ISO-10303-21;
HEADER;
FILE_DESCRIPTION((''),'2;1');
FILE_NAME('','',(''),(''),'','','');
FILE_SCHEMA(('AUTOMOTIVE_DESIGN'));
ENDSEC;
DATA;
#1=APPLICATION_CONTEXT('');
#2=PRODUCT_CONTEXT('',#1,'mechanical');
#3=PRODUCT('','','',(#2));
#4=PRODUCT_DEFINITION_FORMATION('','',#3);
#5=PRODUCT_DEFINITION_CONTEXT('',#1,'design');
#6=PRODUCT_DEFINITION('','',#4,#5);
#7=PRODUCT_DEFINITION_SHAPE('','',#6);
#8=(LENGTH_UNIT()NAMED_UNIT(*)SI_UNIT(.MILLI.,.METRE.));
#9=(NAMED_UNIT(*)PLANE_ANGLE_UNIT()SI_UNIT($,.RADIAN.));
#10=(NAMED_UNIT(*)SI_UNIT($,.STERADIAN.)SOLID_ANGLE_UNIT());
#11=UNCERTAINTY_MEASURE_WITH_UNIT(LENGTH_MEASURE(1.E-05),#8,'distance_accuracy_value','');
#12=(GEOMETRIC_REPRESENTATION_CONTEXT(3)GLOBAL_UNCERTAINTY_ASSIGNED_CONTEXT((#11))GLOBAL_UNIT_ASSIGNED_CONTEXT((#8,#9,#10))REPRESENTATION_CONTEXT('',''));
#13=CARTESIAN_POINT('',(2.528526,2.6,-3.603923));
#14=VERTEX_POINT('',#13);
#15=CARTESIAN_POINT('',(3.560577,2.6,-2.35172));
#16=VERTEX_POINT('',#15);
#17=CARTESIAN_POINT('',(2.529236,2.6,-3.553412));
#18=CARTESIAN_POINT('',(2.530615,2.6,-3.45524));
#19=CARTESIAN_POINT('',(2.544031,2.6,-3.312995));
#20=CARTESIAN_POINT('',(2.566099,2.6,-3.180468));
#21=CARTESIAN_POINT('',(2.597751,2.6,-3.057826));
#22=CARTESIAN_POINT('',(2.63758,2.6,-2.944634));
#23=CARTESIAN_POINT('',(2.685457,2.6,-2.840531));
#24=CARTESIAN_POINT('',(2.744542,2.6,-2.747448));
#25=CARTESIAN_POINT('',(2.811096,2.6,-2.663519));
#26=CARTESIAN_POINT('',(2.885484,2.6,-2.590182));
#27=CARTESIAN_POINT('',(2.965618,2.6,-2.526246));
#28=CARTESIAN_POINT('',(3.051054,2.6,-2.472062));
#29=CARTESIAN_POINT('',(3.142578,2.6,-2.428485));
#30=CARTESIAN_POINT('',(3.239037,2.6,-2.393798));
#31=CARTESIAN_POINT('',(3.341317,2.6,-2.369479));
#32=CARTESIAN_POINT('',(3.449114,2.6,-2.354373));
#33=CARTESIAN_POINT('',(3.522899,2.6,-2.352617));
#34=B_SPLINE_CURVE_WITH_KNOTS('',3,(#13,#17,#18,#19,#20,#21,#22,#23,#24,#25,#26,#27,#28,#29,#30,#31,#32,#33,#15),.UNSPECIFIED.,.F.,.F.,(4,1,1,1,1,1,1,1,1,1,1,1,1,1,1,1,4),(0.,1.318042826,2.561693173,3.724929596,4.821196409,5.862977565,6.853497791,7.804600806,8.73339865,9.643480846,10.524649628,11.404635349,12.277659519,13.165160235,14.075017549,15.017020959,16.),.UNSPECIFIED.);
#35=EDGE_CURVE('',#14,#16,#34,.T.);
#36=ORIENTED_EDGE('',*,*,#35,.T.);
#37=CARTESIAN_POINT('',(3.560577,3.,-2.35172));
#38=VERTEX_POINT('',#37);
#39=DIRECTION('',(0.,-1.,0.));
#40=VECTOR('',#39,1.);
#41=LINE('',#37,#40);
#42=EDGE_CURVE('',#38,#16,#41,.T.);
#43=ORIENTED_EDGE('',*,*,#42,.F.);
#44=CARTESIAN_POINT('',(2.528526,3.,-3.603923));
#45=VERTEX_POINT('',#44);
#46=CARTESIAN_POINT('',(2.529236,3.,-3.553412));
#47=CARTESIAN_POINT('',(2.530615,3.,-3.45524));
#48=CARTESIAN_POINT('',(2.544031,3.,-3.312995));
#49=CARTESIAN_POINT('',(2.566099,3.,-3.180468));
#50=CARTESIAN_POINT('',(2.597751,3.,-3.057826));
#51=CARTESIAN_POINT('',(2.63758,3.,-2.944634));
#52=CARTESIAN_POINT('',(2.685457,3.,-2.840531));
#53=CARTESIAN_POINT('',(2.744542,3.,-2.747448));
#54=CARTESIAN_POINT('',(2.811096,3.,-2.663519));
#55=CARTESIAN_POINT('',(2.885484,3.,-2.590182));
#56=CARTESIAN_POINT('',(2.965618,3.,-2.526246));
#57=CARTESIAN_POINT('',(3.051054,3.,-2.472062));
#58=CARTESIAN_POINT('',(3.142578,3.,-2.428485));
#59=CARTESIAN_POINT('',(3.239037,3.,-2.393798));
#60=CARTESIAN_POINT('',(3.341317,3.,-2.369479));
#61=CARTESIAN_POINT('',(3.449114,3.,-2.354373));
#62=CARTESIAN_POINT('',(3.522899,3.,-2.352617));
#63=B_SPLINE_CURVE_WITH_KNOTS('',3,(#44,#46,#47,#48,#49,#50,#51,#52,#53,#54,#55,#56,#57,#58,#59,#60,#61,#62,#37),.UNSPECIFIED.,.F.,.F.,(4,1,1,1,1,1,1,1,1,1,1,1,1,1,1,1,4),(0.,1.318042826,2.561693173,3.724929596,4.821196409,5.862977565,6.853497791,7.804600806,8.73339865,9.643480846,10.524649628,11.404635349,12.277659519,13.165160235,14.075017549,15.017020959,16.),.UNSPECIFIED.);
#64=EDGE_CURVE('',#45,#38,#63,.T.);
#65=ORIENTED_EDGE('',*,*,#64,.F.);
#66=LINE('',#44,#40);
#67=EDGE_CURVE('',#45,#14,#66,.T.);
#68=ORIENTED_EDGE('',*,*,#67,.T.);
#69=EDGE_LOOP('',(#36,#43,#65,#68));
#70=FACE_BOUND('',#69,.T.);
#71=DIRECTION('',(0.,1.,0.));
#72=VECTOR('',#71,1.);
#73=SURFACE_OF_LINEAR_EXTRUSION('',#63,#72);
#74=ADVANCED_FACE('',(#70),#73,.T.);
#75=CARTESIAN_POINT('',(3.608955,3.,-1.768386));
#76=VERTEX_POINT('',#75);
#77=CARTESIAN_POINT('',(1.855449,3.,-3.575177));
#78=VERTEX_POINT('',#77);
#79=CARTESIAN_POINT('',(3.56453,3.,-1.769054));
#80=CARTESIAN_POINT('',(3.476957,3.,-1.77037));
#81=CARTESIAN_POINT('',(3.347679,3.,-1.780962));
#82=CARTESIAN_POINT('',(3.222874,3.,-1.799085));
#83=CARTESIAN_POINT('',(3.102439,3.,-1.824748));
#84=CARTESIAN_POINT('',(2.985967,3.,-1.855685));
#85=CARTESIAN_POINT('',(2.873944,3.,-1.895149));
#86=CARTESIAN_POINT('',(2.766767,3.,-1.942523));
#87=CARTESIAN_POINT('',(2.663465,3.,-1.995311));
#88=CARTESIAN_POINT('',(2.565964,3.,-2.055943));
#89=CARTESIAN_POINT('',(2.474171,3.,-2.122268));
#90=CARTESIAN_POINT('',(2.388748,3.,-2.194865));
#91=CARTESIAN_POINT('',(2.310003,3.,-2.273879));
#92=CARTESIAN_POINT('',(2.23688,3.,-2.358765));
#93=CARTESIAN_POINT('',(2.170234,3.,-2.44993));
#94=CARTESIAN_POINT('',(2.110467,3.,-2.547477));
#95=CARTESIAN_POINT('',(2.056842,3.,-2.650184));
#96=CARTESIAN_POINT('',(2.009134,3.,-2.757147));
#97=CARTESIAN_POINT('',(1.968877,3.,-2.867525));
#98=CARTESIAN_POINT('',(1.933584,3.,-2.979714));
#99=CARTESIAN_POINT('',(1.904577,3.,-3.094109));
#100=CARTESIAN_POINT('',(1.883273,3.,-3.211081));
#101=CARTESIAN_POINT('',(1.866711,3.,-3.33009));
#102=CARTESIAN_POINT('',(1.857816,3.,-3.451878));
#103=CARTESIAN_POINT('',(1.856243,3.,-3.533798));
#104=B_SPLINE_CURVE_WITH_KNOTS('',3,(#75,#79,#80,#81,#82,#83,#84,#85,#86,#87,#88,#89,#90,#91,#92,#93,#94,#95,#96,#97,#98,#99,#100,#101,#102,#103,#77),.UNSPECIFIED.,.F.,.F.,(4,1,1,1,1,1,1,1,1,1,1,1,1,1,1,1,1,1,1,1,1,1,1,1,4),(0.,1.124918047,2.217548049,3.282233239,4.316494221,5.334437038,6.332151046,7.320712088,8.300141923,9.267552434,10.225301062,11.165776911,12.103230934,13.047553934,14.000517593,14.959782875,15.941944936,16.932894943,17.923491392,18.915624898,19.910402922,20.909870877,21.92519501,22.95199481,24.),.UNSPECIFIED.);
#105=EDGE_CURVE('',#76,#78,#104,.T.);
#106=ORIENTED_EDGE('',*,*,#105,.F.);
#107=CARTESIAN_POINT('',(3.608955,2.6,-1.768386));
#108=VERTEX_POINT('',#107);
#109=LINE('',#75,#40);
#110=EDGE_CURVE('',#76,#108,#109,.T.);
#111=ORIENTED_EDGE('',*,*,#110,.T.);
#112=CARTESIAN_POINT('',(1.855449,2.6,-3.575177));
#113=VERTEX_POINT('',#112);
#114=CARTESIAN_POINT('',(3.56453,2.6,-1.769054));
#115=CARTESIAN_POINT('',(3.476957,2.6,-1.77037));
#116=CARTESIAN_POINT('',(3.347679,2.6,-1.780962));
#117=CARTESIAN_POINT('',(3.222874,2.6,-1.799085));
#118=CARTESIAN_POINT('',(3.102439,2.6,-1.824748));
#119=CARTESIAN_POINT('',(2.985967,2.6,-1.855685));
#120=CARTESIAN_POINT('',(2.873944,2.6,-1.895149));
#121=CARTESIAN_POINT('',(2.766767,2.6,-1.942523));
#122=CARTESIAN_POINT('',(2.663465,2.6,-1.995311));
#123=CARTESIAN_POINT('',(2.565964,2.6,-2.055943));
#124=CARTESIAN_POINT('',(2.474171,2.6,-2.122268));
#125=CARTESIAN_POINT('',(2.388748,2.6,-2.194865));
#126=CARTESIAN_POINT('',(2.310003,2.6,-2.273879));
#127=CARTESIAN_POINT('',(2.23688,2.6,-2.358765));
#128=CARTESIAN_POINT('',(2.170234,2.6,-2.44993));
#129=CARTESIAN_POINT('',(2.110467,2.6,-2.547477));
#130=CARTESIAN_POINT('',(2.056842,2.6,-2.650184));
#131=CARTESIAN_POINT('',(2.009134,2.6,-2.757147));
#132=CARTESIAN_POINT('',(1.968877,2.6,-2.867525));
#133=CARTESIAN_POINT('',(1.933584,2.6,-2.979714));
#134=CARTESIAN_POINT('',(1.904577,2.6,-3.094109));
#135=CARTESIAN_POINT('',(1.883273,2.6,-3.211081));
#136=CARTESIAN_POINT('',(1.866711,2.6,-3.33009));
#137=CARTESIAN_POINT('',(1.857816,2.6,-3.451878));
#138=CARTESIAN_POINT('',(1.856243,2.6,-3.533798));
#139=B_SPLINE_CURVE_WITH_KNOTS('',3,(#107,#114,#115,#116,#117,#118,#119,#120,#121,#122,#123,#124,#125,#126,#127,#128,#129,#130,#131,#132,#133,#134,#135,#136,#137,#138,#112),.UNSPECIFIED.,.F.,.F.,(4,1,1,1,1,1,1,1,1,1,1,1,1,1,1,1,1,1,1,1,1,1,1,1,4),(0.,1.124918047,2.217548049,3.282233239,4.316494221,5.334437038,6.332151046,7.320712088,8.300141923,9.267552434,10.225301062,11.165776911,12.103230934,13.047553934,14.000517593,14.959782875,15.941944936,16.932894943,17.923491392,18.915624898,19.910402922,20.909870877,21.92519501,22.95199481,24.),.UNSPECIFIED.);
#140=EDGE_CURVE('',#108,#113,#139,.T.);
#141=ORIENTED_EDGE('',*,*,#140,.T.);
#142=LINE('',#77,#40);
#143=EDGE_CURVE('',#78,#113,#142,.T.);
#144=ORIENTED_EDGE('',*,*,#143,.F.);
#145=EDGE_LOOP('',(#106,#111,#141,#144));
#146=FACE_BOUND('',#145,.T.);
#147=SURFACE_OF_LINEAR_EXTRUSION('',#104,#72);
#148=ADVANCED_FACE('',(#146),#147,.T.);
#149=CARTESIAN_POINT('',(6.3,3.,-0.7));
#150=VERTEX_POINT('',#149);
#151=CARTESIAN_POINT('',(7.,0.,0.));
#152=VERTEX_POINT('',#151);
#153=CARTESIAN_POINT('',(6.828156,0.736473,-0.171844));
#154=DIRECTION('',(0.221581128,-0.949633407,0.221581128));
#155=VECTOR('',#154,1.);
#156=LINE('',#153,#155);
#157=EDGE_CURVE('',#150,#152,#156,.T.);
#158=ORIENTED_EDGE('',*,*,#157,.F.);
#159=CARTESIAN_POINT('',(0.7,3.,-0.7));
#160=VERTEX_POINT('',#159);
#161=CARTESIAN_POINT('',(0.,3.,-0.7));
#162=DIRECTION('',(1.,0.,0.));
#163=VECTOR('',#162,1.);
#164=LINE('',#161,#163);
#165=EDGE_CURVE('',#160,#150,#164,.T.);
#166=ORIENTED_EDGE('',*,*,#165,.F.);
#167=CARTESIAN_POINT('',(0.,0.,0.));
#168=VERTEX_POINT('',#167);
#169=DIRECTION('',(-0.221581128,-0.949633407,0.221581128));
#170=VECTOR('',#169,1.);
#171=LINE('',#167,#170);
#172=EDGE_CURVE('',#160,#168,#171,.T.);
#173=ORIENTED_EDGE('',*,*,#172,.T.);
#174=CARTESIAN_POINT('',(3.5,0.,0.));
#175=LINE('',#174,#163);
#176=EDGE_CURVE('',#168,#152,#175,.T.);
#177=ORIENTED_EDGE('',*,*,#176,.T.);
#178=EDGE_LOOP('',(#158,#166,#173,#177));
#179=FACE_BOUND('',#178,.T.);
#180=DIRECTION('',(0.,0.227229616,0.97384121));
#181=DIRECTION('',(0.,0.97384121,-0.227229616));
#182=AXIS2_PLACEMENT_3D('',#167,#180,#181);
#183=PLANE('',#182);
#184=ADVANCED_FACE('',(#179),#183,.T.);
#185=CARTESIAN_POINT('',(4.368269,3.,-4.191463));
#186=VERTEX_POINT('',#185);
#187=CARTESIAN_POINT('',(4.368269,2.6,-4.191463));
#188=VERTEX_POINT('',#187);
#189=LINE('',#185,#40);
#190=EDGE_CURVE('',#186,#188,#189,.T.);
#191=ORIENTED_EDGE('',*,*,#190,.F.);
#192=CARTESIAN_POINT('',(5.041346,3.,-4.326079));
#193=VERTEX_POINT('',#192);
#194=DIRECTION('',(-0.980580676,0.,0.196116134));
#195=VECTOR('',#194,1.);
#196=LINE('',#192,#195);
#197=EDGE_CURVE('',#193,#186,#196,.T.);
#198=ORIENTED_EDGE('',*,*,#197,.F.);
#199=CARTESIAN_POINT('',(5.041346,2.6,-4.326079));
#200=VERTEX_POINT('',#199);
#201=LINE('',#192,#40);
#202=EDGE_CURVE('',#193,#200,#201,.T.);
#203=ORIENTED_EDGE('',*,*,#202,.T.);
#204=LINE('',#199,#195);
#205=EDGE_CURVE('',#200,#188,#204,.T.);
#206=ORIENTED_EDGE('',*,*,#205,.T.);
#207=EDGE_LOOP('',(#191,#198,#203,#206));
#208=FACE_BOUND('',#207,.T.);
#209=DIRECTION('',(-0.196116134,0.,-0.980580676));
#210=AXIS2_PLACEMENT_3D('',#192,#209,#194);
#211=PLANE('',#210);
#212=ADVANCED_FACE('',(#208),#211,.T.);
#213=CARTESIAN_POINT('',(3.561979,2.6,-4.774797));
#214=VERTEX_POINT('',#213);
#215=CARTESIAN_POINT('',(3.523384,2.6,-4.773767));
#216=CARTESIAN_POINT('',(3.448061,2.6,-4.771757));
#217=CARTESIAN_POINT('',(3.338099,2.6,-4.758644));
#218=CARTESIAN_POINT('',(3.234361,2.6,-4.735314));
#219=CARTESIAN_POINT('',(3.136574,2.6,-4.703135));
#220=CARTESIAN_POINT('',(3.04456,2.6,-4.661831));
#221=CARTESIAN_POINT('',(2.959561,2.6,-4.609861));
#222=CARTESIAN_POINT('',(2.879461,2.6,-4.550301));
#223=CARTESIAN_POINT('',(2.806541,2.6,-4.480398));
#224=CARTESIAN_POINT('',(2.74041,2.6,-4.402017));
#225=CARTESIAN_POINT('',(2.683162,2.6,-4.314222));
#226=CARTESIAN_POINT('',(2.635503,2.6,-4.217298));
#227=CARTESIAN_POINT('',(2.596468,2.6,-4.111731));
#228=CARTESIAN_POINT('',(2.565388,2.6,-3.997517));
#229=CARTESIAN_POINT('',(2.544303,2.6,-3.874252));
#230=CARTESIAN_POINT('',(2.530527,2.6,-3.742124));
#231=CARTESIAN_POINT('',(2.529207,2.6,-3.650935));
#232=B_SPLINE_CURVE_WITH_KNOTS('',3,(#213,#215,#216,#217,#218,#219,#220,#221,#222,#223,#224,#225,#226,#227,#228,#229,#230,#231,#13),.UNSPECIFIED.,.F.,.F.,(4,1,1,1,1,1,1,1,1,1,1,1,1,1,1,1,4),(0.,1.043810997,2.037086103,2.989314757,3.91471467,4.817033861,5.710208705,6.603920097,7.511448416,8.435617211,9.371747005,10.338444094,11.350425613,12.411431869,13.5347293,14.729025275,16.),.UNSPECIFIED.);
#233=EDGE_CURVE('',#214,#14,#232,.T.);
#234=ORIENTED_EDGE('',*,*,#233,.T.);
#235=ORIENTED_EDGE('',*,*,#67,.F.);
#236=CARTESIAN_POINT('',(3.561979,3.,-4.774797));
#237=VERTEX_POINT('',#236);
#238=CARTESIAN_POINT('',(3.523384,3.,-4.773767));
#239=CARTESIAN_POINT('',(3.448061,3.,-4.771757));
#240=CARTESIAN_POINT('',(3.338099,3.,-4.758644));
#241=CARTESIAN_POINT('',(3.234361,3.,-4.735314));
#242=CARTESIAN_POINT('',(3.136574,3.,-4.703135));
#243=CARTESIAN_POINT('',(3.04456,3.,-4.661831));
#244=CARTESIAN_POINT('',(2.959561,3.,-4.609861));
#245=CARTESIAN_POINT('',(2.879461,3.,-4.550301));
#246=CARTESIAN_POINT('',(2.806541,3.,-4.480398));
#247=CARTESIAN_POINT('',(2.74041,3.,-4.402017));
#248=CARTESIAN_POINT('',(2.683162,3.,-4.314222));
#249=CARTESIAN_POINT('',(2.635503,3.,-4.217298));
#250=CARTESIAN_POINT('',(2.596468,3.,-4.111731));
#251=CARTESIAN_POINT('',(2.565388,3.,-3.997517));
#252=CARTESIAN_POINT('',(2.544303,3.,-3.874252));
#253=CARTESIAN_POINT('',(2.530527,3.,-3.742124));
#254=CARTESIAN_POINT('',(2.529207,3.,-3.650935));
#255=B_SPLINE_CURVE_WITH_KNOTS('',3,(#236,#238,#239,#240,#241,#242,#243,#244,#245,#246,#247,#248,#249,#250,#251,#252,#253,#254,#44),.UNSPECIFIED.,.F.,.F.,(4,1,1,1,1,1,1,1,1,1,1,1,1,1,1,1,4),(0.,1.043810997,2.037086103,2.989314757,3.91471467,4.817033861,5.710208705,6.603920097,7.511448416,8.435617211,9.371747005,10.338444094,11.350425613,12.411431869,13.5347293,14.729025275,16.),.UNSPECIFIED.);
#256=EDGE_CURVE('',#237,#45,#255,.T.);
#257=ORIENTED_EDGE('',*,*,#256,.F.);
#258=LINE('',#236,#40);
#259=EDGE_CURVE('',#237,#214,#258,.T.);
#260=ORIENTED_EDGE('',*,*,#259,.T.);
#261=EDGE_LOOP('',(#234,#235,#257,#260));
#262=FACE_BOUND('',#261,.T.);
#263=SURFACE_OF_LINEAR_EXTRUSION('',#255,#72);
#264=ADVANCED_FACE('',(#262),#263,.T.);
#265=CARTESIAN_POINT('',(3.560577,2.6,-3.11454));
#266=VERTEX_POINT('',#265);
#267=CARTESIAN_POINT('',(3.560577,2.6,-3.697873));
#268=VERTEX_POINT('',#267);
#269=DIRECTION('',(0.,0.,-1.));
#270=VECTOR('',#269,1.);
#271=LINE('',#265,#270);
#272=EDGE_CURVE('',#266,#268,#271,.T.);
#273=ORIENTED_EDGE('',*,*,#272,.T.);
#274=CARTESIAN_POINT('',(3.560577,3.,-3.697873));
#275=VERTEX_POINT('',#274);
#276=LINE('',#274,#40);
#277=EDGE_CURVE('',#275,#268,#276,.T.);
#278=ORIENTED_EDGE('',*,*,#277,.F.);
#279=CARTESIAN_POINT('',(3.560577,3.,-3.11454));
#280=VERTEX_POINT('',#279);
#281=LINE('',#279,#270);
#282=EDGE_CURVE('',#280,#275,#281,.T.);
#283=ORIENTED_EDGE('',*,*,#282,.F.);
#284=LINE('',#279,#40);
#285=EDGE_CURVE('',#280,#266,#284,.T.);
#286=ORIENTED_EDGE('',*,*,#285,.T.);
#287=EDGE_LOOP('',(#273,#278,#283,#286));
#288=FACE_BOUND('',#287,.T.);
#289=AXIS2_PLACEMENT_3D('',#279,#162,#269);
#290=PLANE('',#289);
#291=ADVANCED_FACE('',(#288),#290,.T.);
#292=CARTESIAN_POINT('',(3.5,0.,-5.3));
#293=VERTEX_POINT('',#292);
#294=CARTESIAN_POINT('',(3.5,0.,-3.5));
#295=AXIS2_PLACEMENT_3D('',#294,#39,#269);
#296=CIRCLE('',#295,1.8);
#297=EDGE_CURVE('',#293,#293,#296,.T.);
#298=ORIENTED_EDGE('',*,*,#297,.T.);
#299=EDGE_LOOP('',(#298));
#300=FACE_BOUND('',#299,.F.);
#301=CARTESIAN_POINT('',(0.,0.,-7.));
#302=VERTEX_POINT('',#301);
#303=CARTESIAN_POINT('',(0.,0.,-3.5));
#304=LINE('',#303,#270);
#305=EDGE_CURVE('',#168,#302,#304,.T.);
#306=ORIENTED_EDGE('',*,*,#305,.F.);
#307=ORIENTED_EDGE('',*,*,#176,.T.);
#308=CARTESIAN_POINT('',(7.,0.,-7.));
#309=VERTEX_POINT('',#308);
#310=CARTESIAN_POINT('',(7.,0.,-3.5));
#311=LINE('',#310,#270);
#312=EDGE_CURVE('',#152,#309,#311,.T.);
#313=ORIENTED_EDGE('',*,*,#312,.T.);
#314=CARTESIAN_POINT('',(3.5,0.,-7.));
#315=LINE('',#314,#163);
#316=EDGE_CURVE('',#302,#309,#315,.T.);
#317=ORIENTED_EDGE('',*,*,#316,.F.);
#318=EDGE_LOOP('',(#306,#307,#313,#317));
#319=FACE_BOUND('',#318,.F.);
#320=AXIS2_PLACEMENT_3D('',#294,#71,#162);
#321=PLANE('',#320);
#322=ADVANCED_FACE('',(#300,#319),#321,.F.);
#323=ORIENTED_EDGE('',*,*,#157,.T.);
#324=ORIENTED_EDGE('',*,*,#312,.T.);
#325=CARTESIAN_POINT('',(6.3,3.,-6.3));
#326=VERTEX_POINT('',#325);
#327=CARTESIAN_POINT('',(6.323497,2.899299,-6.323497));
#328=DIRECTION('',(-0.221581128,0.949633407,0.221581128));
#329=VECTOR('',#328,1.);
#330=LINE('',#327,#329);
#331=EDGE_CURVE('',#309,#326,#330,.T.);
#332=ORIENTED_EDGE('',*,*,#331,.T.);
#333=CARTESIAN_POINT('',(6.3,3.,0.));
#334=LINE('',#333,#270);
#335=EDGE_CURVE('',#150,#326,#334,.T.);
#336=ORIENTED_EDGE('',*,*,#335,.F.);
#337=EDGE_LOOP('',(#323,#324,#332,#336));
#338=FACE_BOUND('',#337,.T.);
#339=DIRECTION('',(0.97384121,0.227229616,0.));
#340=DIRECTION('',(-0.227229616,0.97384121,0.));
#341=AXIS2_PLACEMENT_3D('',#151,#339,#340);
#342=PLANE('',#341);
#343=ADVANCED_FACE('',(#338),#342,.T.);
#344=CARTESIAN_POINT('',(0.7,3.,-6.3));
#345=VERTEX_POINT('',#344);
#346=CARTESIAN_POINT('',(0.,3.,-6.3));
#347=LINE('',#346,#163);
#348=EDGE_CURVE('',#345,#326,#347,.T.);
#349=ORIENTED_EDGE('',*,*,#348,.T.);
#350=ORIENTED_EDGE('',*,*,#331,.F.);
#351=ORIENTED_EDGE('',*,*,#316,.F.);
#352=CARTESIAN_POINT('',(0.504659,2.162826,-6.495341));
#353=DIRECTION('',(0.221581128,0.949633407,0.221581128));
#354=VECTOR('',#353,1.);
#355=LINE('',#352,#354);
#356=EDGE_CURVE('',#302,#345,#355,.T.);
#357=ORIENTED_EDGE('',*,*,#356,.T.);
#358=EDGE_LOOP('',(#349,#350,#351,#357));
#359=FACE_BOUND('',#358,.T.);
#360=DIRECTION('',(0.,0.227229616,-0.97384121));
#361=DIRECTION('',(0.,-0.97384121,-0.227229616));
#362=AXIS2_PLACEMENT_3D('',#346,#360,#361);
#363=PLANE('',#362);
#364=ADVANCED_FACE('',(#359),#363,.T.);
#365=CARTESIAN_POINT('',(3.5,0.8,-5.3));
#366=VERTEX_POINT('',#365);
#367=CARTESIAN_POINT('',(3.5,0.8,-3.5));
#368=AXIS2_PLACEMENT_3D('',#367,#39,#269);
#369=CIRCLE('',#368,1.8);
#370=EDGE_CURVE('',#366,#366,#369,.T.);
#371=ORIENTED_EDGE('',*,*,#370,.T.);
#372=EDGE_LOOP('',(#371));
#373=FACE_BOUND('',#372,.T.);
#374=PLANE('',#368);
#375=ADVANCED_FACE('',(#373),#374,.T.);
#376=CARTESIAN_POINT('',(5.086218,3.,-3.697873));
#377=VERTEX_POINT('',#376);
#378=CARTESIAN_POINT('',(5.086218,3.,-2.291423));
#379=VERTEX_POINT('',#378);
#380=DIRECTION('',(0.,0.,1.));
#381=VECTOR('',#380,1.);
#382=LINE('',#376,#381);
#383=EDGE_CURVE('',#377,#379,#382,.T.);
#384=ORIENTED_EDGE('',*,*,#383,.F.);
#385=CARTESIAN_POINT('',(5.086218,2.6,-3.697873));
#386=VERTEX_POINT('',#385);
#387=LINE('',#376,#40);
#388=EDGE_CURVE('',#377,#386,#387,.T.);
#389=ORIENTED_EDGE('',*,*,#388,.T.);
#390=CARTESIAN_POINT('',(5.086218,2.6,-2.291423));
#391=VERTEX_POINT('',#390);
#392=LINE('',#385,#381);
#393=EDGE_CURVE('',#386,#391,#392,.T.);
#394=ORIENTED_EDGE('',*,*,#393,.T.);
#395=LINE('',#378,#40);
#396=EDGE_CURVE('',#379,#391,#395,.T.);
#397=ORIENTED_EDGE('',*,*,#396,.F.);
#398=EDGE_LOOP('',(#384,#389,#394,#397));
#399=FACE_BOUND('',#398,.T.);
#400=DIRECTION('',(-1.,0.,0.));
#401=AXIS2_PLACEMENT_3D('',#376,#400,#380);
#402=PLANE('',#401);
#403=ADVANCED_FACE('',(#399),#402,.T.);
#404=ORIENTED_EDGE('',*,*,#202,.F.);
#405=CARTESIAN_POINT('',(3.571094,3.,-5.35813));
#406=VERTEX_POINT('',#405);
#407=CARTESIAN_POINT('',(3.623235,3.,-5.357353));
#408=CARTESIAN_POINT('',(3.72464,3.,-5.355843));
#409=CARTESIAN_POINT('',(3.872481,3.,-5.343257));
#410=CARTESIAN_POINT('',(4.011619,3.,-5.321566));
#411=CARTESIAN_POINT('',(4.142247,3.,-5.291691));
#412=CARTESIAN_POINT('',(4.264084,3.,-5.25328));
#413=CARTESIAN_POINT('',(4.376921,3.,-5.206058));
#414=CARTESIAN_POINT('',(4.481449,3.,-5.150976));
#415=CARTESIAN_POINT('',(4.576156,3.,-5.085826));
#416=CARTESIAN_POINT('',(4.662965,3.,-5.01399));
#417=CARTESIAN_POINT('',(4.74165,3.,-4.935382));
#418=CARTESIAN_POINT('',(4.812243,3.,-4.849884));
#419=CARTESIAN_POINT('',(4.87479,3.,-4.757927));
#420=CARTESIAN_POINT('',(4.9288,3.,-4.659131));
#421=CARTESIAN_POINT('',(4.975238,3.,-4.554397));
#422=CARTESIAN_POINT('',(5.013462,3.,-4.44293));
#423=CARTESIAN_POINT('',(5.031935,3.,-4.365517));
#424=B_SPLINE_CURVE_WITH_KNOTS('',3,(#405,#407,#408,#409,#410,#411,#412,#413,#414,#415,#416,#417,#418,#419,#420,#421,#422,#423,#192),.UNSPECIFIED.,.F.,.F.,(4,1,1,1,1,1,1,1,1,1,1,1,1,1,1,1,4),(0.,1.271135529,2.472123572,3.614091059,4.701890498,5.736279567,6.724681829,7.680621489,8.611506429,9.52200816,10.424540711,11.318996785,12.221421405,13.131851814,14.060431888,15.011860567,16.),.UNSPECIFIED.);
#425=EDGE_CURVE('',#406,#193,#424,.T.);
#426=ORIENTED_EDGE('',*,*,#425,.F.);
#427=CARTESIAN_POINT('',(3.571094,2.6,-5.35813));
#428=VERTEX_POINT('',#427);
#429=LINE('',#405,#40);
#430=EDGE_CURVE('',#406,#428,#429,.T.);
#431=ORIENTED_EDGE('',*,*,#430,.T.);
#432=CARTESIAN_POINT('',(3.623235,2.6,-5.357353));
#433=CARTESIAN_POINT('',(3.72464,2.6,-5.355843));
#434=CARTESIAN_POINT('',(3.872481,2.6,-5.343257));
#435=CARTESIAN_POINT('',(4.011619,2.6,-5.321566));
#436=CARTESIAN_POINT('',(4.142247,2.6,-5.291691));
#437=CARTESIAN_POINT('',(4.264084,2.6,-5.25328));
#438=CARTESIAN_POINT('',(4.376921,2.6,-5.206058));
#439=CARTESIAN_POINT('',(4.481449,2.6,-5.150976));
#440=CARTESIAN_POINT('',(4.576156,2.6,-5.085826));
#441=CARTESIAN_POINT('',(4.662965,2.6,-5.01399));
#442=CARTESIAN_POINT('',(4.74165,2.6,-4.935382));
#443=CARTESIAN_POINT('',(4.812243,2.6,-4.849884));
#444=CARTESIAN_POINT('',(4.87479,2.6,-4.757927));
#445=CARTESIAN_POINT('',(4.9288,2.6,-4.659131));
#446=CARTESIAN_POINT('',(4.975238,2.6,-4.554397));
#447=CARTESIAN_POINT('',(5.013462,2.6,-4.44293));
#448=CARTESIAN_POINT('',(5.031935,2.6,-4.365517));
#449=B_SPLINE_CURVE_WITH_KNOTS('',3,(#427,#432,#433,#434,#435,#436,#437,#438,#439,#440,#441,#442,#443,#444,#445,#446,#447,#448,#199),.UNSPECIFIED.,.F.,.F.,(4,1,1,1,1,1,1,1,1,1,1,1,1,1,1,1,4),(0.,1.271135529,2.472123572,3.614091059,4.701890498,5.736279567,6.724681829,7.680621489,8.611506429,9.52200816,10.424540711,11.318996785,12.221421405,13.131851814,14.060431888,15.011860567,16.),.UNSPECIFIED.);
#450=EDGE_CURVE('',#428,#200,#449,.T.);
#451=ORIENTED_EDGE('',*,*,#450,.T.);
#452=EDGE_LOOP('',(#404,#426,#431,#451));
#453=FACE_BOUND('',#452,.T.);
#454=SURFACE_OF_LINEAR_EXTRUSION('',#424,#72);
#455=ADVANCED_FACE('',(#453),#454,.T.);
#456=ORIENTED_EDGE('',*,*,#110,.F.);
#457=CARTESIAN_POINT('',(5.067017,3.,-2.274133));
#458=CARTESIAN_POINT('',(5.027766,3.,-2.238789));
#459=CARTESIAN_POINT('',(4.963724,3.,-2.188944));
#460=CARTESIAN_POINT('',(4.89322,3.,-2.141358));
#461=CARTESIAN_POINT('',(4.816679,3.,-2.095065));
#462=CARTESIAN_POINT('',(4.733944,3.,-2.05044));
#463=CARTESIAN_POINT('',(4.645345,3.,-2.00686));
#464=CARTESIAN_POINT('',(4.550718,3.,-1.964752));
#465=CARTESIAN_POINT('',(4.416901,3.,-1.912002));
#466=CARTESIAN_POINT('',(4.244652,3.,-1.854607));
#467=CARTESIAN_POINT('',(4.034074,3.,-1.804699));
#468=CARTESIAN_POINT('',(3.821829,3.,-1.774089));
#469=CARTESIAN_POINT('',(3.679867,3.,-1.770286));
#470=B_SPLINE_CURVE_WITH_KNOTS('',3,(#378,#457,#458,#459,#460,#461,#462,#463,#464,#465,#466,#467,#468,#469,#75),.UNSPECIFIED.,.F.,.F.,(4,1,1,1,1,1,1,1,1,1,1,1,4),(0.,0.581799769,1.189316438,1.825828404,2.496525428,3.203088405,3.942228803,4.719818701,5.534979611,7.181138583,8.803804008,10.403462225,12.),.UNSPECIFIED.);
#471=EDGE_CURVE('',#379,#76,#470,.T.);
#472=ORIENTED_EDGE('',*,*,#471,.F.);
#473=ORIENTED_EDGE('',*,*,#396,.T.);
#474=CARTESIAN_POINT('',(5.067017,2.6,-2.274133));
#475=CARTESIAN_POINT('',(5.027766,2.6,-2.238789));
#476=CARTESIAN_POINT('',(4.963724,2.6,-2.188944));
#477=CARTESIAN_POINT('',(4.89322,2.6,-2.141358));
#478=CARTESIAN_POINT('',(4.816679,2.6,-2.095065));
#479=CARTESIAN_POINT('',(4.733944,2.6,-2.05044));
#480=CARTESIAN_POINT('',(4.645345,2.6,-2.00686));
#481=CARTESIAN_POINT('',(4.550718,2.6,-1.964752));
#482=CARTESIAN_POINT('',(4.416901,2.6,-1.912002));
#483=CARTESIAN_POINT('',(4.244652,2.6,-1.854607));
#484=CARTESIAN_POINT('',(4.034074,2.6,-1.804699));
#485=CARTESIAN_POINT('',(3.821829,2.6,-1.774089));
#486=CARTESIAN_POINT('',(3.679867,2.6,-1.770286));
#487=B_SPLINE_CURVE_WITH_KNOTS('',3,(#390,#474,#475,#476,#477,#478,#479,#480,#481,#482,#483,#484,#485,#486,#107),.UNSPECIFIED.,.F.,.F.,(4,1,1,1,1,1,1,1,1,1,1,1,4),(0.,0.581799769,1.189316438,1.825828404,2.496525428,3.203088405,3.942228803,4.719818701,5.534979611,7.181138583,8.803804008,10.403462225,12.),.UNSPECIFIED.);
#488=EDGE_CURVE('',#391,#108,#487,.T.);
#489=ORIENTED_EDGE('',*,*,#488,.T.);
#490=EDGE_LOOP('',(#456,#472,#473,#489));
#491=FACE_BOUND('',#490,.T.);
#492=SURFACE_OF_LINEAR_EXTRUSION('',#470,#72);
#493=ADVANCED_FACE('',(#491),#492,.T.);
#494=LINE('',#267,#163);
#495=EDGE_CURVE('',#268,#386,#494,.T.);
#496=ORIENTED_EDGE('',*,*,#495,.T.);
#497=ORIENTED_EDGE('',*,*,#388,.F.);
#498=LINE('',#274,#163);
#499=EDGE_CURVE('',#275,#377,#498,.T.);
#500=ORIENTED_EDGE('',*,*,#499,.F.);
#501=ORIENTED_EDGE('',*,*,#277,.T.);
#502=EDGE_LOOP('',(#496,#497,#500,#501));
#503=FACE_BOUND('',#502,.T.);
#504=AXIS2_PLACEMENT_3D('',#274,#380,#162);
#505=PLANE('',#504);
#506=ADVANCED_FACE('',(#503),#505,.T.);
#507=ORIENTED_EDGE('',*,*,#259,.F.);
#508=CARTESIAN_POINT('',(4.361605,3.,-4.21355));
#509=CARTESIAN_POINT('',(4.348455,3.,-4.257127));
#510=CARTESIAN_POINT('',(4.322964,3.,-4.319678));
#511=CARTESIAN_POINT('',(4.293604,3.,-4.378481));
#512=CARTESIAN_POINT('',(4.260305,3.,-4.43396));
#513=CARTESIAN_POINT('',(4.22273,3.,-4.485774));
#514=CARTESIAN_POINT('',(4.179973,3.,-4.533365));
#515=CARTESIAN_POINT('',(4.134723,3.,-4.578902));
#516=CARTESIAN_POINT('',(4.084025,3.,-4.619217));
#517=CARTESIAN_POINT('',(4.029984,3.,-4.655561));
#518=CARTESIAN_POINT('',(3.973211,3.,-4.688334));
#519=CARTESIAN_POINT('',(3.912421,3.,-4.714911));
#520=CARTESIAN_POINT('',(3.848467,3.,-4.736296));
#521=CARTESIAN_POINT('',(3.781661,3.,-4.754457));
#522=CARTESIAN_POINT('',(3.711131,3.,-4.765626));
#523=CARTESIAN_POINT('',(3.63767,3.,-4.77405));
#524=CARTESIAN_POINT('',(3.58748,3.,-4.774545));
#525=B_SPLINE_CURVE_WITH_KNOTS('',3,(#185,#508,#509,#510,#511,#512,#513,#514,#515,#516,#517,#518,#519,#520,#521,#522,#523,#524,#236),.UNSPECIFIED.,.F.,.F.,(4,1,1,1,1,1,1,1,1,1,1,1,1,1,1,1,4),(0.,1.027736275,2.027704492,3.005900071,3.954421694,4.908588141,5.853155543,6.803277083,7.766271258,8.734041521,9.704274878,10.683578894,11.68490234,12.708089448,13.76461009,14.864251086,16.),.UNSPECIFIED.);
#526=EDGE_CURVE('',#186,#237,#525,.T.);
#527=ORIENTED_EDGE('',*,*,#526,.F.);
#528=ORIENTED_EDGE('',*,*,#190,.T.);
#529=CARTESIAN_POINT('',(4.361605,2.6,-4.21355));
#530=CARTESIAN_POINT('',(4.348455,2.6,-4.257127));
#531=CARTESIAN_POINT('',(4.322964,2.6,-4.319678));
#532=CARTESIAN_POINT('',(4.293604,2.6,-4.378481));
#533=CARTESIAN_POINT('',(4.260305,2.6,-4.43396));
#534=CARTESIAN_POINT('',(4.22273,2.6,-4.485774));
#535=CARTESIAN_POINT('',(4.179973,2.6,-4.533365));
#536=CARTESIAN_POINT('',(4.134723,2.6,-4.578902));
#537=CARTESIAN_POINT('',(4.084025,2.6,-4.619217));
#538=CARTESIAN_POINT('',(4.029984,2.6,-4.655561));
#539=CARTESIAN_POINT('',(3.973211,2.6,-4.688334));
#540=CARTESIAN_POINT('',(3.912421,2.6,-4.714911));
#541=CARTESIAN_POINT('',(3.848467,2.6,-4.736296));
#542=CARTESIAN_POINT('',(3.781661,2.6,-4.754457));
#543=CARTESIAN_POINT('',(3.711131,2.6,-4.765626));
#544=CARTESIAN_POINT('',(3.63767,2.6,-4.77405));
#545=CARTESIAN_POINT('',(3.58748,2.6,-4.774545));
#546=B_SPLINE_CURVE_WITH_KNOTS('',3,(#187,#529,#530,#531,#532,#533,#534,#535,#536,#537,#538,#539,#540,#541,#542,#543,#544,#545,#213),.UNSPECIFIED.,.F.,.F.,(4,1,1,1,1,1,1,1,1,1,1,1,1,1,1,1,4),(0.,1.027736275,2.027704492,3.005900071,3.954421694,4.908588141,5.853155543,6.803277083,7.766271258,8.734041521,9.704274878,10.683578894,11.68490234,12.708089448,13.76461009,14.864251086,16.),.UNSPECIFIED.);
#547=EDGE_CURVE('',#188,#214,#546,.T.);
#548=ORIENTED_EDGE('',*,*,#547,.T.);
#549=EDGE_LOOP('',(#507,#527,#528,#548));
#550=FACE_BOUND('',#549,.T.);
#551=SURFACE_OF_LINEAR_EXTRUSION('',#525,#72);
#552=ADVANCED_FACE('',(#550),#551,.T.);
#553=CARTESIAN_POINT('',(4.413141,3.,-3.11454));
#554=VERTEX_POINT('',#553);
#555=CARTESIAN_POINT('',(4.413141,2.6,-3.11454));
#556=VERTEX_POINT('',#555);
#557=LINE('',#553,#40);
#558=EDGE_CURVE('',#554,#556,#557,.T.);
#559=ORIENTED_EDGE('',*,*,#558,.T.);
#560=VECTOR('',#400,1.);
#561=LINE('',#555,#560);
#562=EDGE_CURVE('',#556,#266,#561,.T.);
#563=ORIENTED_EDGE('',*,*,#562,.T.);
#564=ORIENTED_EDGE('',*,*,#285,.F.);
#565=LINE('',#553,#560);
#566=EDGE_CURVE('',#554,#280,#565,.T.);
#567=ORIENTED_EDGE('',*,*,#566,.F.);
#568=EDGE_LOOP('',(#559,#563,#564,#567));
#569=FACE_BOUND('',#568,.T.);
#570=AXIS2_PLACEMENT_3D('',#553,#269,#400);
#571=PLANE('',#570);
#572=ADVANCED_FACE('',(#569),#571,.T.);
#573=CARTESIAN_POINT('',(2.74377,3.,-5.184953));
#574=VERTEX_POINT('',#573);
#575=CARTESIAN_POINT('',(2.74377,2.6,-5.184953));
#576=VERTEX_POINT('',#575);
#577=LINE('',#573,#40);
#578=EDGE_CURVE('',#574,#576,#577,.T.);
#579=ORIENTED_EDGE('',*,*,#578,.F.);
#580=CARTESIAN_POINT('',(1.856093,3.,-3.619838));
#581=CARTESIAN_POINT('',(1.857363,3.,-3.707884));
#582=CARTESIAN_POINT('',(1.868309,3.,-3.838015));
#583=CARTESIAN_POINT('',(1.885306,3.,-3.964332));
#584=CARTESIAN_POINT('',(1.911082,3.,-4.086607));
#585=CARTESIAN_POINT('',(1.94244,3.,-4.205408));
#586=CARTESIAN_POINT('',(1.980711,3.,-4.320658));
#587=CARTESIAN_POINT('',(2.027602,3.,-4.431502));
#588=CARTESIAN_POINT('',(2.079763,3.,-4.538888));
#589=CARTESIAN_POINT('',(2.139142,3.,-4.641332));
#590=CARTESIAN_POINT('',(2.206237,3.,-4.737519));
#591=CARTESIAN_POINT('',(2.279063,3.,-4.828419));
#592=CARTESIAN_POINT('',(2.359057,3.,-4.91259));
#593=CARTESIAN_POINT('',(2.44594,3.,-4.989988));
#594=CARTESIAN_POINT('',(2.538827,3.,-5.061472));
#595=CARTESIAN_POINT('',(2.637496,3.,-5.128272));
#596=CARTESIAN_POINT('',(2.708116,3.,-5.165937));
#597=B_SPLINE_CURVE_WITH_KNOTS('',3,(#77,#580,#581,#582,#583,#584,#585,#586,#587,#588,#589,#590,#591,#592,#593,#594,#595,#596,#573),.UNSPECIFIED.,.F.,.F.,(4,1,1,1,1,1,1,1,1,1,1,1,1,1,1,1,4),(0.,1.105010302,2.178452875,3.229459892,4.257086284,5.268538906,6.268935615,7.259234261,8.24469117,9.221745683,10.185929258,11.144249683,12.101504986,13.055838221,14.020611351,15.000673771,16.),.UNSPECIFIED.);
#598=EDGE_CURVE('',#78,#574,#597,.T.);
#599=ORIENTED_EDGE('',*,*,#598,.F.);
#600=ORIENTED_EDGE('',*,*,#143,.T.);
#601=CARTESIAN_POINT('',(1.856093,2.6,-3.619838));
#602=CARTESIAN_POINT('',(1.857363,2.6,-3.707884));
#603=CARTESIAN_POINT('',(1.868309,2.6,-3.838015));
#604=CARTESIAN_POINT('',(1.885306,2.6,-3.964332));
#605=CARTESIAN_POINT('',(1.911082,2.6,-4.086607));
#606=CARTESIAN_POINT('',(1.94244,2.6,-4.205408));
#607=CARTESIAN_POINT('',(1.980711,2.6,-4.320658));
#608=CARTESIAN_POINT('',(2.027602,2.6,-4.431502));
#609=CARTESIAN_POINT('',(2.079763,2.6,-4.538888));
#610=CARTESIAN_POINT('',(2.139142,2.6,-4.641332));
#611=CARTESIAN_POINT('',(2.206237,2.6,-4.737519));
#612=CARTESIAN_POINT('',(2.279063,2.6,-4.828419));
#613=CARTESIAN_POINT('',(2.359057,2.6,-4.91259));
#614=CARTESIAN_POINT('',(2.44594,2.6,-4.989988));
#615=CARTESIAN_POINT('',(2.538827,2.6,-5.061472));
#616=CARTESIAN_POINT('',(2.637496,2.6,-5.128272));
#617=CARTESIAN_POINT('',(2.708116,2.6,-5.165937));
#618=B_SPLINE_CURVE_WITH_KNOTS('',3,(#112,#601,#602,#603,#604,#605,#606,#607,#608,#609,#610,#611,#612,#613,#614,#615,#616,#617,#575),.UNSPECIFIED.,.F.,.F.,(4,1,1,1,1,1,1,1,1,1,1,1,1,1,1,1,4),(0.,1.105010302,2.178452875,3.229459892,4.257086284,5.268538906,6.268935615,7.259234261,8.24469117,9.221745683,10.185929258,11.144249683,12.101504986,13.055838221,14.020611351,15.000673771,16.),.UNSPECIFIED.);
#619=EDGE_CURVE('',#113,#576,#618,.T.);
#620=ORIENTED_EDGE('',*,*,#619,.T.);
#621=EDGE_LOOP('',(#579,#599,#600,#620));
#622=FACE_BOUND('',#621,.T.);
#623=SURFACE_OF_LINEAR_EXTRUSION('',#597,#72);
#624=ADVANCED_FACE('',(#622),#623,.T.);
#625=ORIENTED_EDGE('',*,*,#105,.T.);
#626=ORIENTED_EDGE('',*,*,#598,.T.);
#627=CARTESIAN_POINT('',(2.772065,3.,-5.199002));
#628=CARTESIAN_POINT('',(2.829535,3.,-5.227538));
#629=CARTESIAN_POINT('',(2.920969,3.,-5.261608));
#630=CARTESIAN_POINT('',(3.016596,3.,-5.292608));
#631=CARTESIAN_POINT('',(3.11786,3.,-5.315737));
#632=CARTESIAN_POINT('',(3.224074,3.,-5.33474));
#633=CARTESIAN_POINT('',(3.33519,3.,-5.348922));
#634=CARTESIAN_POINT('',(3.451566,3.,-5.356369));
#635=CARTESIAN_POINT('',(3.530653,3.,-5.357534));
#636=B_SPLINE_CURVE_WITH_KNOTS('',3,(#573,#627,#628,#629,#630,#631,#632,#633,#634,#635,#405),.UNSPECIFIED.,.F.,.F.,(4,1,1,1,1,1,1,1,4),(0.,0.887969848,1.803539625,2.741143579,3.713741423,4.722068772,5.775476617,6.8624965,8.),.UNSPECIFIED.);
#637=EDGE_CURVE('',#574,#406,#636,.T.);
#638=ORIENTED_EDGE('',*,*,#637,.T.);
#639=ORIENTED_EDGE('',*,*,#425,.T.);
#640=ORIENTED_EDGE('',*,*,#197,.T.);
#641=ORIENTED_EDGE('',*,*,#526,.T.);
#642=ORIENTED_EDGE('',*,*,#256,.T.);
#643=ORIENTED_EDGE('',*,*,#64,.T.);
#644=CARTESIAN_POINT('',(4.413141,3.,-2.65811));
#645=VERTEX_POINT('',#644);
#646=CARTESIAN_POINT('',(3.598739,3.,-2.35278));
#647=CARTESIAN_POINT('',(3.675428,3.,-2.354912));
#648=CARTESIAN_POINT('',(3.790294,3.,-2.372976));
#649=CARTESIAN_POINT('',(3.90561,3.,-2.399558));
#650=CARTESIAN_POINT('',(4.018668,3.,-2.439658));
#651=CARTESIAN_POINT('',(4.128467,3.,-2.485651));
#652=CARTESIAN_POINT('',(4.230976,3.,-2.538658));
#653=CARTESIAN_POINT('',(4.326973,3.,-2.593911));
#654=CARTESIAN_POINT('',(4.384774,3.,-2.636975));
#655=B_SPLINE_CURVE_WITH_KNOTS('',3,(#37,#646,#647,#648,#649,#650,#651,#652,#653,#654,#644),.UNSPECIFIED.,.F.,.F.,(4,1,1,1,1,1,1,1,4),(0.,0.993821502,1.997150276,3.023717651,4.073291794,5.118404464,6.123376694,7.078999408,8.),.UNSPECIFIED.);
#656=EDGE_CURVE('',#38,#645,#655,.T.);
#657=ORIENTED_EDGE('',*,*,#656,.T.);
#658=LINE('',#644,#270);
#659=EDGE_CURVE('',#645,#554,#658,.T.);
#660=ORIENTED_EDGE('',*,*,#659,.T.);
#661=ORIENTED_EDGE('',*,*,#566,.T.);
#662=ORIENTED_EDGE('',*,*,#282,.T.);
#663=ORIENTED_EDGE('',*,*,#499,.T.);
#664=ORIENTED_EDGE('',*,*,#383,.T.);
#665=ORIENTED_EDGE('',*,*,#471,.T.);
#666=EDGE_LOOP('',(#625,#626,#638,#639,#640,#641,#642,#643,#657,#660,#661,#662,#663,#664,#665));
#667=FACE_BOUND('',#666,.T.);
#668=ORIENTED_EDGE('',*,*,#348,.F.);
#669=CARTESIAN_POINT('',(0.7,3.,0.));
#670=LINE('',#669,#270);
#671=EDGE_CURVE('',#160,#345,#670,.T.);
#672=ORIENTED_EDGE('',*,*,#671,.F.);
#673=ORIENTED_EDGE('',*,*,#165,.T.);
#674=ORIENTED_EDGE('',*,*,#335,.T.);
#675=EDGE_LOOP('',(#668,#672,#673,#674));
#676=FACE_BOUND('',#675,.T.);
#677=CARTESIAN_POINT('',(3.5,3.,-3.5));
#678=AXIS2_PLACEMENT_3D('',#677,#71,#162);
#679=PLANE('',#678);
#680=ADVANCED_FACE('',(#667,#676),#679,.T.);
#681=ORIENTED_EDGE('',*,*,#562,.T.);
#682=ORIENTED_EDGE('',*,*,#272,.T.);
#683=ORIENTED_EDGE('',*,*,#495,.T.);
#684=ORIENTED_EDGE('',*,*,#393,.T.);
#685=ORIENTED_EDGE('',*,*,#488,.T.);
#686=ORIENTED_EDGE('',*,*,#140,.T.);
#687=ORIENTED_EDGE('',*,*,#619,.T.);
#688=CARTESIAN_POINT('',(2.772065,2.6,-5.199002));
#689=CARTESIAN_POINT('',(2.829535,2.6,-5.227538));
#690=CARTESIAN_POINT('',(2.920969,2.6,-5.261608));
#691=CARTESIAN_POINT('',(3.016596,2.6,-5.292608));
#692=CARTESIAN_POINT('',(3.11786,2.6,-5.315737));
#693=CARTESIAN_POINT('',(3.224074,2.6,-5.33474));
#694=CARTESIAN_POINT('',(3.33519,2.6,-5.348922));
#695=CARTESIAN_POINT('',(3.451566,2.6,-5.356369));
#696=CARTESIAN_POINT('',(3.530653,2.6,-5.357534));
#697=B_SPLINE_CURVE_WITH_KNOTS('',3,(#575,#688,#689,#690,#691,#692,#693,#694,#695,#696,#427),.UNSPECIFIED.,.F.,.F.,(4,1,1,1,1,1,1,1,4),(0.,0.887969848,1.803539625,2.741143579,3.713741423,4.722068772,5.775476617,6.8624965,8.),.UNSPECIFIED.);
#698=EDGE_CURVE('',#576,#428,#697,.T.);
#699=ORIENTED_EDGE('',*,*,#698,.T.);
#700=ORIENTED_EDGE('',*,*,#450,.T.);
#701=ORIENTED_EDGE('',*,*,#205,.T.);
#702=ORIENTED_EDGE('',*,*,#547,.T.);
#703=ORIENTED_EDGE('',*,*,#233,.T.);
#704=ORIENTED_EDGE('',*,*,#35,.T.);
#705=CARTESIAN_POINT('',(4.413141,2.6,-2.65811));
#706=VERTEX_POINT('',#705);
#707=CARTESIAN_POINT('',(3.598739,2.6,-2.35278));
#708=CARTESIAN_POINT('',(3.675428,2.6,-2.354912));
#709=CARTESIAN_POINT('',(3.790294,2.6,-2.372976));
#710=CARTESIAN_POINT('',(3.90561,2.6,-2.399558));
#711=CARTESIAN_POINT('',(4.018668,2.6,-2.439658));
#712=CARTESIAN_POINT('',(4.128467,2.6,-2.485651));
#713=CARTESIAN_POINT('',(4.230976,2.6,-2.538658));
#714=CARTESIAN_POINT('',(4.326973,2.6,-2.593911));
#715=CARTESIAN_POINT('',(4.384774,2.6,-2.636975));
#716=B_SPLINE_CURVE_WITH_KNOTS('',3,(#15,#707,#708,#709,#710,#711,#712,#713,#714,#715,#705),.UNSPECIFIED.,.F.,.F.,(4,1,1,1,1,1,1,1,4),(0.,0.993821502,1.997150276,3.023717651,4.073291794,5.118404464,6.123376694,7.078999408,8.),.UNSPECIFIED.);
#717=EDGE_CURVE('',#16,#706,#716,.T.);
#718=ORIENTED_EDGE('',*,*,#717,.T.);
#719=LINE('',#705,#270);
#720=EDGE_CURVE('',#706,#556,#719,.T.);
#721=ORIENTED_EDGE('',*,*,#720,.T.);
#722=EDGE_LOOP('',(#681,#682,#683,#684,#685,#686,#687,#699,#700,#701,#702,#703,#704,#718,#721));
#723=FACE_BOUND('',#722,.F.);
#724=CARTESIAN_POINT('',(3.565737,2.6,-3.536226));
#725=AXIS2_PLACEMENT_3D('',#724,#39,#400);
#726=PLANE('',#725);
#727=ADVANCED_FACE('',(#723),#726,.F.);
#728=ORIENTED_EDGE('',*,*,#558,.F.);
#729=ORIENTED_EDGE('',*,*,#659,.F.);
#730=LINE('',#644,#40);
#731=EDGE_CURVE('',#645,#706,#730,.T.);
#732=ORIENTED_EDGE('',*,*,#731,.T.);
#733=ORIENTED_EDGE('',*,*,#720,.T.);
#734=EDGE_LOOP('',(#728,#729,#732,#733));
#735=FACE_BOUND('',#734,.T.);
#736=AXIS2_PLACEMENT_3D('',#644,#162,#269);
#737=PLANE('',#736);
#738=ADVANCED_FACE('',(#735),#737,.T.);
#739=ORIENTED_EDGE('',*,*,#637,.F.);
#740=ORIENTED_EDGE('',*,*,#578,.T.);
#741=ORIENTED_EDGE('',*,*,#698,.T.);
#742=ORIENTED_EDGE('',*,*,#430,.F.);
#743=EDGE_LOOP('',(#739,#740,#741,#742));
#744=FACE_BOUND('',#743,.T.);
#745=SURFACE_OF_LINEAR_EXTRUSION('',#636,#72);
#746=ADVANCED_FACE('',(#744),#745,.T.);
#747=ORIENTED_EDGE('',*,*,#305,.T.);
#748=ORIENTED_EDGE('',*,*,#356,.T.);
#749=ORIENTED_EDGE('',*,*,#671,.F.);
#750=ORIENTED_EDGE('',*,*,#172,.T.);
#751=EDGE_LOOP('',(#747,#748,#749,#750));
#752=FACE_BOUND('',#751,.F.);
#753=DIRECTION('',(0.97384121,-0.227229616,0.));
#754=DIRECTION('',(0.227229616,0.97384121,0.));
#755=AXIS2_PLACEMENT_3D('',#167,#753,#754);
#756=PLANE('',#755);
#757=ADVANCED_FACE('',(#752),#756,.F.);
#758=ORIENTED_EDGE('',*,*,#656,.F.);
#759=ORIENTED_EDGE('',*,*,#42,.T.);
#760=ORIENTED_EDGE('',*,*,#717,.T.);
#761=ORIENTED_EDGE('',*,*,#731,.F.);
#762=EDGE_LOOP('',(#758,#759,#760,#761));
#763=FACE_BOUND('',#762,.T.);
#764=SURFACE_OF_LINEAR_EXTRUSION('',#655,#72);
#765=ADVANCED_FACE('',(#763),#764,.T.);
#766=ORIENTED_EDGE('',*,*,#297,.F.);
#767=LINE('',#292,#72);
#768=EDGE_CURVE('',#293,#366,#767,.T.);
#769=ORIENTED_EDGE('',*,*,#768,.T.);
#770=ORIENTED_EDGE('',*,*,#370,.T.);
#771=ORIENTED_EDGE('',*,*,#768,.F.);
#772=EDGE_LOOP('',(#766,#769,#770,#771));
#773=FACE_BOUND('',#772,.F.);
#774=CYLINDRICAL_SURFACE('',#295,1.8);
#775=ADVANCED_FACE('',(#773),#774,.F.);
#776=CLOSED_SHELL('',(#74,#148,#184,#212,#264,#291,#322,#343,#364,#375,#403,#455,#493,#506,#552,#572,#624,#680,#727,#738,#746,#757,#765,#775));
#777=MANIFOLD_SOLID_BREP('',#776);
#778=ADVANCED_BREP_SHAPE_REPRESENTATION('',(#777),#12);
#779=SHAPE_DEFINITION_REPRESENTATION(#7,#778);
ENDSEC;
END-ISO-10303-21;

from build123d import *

# Parameters (mm, degrees)
SKETCH1_W           = 7
SKETCH1_H           = 7
BOSS_EXTRUDE1_DEPTH = 3
CUT_EXTRUDE1_DEPTH  = 7
CUT_EXTRUDE2_DEPTH  = 11
SKETCH4_R           = 1.8
CUT_EXTRUDE3_DEPTH  = 0.8
CUT_EXTRUDE4_DEPTH  = 0.4


with BuildPart() as part:
    # Sketch1 → Boss-Extrude1 (new body)
    with BuildSketch(Plane(origin=(0, 0, 0), x_dir=(1, 0, 0), z_dir=(0, 1, 0))):
        with Locations((3.5, 3.5)):
            Rectangle(SKETCH1_W, SKETCH1_H)
    extrude(amount=BOSS_EXTRUDE1_DEPTH)

    # Sketch2 → Cut-Extrude1 (cut)
    with BuildSketch(Plane.XY):
        Polygon((0, 0), (0.7, 3), (0, 3), align=None)
        Polygon((7, 0), (6.3, 3), (7, 3), align=None)
    extrude(amount=-CUT_EXTRUDE1_DEPTH, mode=Mode.SUBTRACT)

    # Sketch3 → Cut-Extrude2 (cut)
    with BuildSketch(Plane(origin=(0, 0, 0), x_dir=(0, 0, -1), z_dir=(1, 0, 0))):
        Polygon((0, 0), (0.7, 3), (0, 3), align=None)
        Polygon((7, 3), (6.3, 3), (7, 0), align=None)
    extrude(amount=CUT_EXTRUDE2_DEPTH, mode=Mode.SUBTRACT)

    # Sketch4 → Cut-Extrude3 (cut)
    with BuildSketch(Plane.XZ):
        with Locations(Location((3.5, -3.5, 0), (0, 0, 270))):
            Circle(SKETCH4_R)
    extrude(amount=-CUT_EXTRUDE3_DEPTH, mode=Mode.SUBTRACT)

    # Sketch5 → Cut-Extrude4 (cut)
    with BuildSketch(Plane(origin=(0, 3, 0), x_dir=(1, 0, 0), z_dir=(0, 1, 0))):
        with BuildLine():
            Line((3.560577146, 3.114540144), (3.560577146, 3.697873477))
            Line((3.560577146, 3.697873477), (5.086218172, 3.697873477))
            Line((5.086218172, 3.697873477), (5.086218172, 2.291423157))
            add(Edge.make_bspline(
                [(5.086218172, 2.291423157), (5.067017117, 2.274133072), (5.027766277, 2.238788642), (4.963724103, 2.188944154), (4.893219701, 2.141357686), (4.816679286, 2.095065493), (4.733944457, 2.050440158), (4.645345204, 2.006860163), (4.550718059, 1.964751709), (4.416901441, 1.91200226), (4.244652022, 1.854606501), (4.034073664, 1.804699023), (3.821829494, 1.774088797), (3.679866665, 1.770285893), (3.60895455, 1.768386298)],
                knots=[0, 0, 0, 0, 0.581799769, 1.189316438, 1.825828404, 2.496525428, 3.203088405, 3.942228803, 4.719818701, 5.534979611, 7.181138583, 8.803804008, 10.403462225, 12, 12, 12, 12], degree=3))
            add(Edge.make_bspline(
                [(3.60895455, 1.768386298), (3.564530426, 1.769053863), (3.476957263, 1.770369833), (3.347679322, 1.780962016), (3.222873793, 1.79908519), (3.10243897, 1.824748474), (2.985967191, 1.855684985), (2.87394395, 1.895149291), (2.766766964, 1.94252304), (2.663465207, 1.995311299), (2.565964473, 2.055942911), (2.474170574, 2.122268485), (2.388747899, 2.194864928), (2.310002684, 2.273878576), (2.236880415, 2.358765244), (2.170234263, 2.449929726), (2.110467262, 2.547477268), (2.056841671, 2.650184243), (2.009134136, 2.757147371), (1.968877334, 2.867524799), (1.933584129, 2.979713967), (1.904576972, 3.094108746), (1.883272633, 3.211081052), (1.866711077, 3.330089662), (1.857815915, 3.451878149), (1.85624329, 3.533798405), (1.855448941, 3.575177163)],
                knots=[0, 0, 0, 0, 1.124918047, 2.217548049, 3.282233239, 4.316494221, 5.334437038, 6.332151046, 7.320712088, 8.300141923, 9.267552434, 10.225301062, 11.165776911, 12.103230934, 13.047553934, 14.000517593, 14.959782875, 15.941944936, 16.932894943, 17.923491392, 18.915624898, 19.910402922, 20.909870877, 21.92519501, 22.95199481, 24, 24, 24, 24], degree=3))
            add(Edge.make_bspline(
                [(1.855448941, 3.575177163), (1.856093148, 3.619838006), (1.857363158, 3.70788383), (1.868308868, 3.838014535), (1.885306261, 3.964331927), (1.911081696, 4.086606684), (1.942440107, 4.205407986), (1.980711267, 4.320657597), (2.027601885, 4.431501631), (2.079763432, 4.538888047), (2.139142377, 4.641331803), (2.206237244, 4.73751889), (2.279062516, 4.828419459), (2.359057277, 4.912589631), (2.445939825, 4.989988393), (2.538826953, 5.06147172), (2.637496219, 5.128271897), (2.70811648, 5.165936981), (2.743770255, 5.184952804)],
                knots=[0, 0, 0, 0, 1.105010302, 2.178452875, 3.229459892, 4.257086284, 5.268538906, 6.268935615, 7.259234261, 8.24469117, 9.221745683, 10.185929258, 11.144249683, 12.101504986, 13.055838221, 14.020611351, 15.000673771, 16, 16, 16, 16], degree=3))
            add(Edge.make_bspline(
                [(2.743770255, 5.184952804), (2.772065201, 5.199002298), (2.829534559, 5.227537973), (2.920968547, 5.261607564), (3.016595835, 5.292607583), (3.117860188, 5.315737399), (3.224073939, 5.33474033), (3.335190018, 5.348921508), (3.4515659, 5.356368591), (3.530653011, 5.357533973), (3.571093973, 5.358129887)],
                knots=[0, 0, 0, 0, 0.887969848, 1.803539625, 2.741143579, 3.713741423, 4.722068772, 5.775476617, 6.8624965, 8, 8, 8, 8], degree=3))
            add(Edge.make_bspline(
                [(3.571093973, 5.358129887), (3.623235223, 5.357353239), (3.724640313, 5.3558428), (3.872481342, 5.343256962), (4.011619071, 5.321565683), (4.142247257, 5.29169089), (4.264084488, 5.253279835), (4.376921023, 5.206058081), (4.481449427, 5.150975954), (4.576155731, 5.085825914), (4.662964716, 5.013990372), (4.741649855, 4.935381948), (4.81224282, 4.849884207), (4.874790314, 4.75792735), (4.928800044, 4.659131282), (4.975238097, 4.554397044), (5.013462237, 4.442929528), (5.031935116, 4.365517314), (5.041346377, 4.326078605)],
                knots=[0, 0, 0, 0, 1.271135529, 2.472123572, 3.614091059, 4.701890498, 5.736279567, 6.724681829, 7.680621489, 8.611506429, 9.52200816, 10.424540711, 11.318996785, 12.221421405, 13.131851814, 14.060431888, 15.011860567, 16, 16, 16, 16], degree=3))
            Line((5.041346377, 4.326078605), (4.368269454, 4.191463221))
            add(Edge.make_bspline(
                [(4.368269454, 4.191463221), (4.361604715, 4.213549965), (4.348455309, 4.257126698), (4.322964325, 4.319678226), (4.293604309, 4.3784808), (4.260304833, 4.433960038), (4.222730432, 4.485774386), (4.179973312, 4.533364921), (4.134723148, 4.57890244), (4.084024684, 4.619217322), (4.029984173, 4.655561005), (3.973210536, 4.688333605), (3.91242093, 4.71491127), (3.848466862, 4.736295893), (3.781660913, 4.75445708), (3.71113124, 4.76562628), (3.637669879, 4.774050015), (3.58747979, 4.774545043), (3.56197939, 4.774796554)],
                knots=[0, 0, 0, 0, 1.027736275, 2.027704492, 3.005900071, 3.954421694, 4.908588141, 5.853155543, 6.803277083, 7.766271258, 8.734041521, 9.704274878, 10.683578894, 11.68490234, 12.708089448, 13.76461009, 14.864251086, 16, 16, 16, 16], degree=3))
            add(Edge.make_bspline(
                [(3.56197939, 4.774796554), (3.523383641, 4.773766807), (3.448060748, 4.771757168), (3.338099362, 4.758643838), (3.234360883, 4.735314023), (3.13657404, 4.70313499), (3.044559561, 4.661830949), (2.959560848, 4.609861345), (2.879461483, 4.550301297), (2.806540814, 4.480398046), (2.740410053, 4.402016529), (2.68316205, 4.31422182), (2.635503332, 4.217297709), (2.596468126, 4.11173088), (2.565387773, 3.997516933), (2.544303255, 3.874251546), (2.530527014, 3.742123824), (2.529206604, 3.650935474), (2.528525864, 3.603923157)],
                knots=[0, 0, 0, 0, 1.043810997, 2.037086103, 2.989314757, 3.91471467, 4.817033861, 5.710208705, 6.603920097, 7.511448416, 8.435617211, 9.371747005, 10.338444094, 11.350425613, 12.411431869, 13.5347293, 14.729025275, 16, 16, 16, 16], degree=3))
            add(Edge.make_bspline(
                [(2.528525864, 3.603923157), (2.529235737, 3.553411684), (2.530615417, 3.455239689), (2.544030551, 3.312994813), (2.566098564, 3.1804679), (2.597751337, 3.057826113), (2.637580383, 2.944634337), (2.685456676, 2.840530978), (2.744541809, 2.747447788), (2.811096159, 2.66351894), (2.885483615, 2.590182439), (2.965618207, 2.526245677), (3.051053791, 2.472061589), (3.142578213, 2.428485457), (3.239037142, 2.393797733), (3.341317359, 2.36947923), (3.449114318, 2.354373472), (3.522899335, 2.352616709), (3.560577146, 2.351719631)],
                knots=[0, 0, 0, 0, 1.318042826, 2.561693173, 3.724929596, 4.821196409, 5.862977565, 6.853497791, 7.804600806, 8.73339865, 9.643480846, 10.524649628, 11.404635349, 12.277659519, 13.165160235, 14.075017549, 15.017020959, 16, 16, 16, 16], degree=3))
            add(Edge.make_bspline(
                [(3.560577146, 2.351719631), (3.598739169, 2.352780416), (3.675428288, 2.354912133), (3.790294349, 2.372976278), (3.905609834, 2.399558249), (4.018668414, 2.439657646), (4.128467307, 2.485651373), (4.2309763, 2.53865833), (4.326972813, 2.593911136), (4.384773897, 2.636975114), (4.413141249, 2.658109855)],
                knots=[0, 0, 0, 0, 0.993821502, 1.997150276, 3.023717651, 4.073291794, 5.118404464, 6.123376694, 7.078999408, 8, 8, 8, 8], degree=3))
            Line((4.413141249, 2.658109855), (4.413141249, 3.114540144))
            Line((4.413141249, 3.114540144), (3.560577146, 3.114540144))
        make_face()
    extrude(amount=-CUT_EXTRUDE4_DEPTH, mode=Mode.SUBTRACT)


solid = part.part
